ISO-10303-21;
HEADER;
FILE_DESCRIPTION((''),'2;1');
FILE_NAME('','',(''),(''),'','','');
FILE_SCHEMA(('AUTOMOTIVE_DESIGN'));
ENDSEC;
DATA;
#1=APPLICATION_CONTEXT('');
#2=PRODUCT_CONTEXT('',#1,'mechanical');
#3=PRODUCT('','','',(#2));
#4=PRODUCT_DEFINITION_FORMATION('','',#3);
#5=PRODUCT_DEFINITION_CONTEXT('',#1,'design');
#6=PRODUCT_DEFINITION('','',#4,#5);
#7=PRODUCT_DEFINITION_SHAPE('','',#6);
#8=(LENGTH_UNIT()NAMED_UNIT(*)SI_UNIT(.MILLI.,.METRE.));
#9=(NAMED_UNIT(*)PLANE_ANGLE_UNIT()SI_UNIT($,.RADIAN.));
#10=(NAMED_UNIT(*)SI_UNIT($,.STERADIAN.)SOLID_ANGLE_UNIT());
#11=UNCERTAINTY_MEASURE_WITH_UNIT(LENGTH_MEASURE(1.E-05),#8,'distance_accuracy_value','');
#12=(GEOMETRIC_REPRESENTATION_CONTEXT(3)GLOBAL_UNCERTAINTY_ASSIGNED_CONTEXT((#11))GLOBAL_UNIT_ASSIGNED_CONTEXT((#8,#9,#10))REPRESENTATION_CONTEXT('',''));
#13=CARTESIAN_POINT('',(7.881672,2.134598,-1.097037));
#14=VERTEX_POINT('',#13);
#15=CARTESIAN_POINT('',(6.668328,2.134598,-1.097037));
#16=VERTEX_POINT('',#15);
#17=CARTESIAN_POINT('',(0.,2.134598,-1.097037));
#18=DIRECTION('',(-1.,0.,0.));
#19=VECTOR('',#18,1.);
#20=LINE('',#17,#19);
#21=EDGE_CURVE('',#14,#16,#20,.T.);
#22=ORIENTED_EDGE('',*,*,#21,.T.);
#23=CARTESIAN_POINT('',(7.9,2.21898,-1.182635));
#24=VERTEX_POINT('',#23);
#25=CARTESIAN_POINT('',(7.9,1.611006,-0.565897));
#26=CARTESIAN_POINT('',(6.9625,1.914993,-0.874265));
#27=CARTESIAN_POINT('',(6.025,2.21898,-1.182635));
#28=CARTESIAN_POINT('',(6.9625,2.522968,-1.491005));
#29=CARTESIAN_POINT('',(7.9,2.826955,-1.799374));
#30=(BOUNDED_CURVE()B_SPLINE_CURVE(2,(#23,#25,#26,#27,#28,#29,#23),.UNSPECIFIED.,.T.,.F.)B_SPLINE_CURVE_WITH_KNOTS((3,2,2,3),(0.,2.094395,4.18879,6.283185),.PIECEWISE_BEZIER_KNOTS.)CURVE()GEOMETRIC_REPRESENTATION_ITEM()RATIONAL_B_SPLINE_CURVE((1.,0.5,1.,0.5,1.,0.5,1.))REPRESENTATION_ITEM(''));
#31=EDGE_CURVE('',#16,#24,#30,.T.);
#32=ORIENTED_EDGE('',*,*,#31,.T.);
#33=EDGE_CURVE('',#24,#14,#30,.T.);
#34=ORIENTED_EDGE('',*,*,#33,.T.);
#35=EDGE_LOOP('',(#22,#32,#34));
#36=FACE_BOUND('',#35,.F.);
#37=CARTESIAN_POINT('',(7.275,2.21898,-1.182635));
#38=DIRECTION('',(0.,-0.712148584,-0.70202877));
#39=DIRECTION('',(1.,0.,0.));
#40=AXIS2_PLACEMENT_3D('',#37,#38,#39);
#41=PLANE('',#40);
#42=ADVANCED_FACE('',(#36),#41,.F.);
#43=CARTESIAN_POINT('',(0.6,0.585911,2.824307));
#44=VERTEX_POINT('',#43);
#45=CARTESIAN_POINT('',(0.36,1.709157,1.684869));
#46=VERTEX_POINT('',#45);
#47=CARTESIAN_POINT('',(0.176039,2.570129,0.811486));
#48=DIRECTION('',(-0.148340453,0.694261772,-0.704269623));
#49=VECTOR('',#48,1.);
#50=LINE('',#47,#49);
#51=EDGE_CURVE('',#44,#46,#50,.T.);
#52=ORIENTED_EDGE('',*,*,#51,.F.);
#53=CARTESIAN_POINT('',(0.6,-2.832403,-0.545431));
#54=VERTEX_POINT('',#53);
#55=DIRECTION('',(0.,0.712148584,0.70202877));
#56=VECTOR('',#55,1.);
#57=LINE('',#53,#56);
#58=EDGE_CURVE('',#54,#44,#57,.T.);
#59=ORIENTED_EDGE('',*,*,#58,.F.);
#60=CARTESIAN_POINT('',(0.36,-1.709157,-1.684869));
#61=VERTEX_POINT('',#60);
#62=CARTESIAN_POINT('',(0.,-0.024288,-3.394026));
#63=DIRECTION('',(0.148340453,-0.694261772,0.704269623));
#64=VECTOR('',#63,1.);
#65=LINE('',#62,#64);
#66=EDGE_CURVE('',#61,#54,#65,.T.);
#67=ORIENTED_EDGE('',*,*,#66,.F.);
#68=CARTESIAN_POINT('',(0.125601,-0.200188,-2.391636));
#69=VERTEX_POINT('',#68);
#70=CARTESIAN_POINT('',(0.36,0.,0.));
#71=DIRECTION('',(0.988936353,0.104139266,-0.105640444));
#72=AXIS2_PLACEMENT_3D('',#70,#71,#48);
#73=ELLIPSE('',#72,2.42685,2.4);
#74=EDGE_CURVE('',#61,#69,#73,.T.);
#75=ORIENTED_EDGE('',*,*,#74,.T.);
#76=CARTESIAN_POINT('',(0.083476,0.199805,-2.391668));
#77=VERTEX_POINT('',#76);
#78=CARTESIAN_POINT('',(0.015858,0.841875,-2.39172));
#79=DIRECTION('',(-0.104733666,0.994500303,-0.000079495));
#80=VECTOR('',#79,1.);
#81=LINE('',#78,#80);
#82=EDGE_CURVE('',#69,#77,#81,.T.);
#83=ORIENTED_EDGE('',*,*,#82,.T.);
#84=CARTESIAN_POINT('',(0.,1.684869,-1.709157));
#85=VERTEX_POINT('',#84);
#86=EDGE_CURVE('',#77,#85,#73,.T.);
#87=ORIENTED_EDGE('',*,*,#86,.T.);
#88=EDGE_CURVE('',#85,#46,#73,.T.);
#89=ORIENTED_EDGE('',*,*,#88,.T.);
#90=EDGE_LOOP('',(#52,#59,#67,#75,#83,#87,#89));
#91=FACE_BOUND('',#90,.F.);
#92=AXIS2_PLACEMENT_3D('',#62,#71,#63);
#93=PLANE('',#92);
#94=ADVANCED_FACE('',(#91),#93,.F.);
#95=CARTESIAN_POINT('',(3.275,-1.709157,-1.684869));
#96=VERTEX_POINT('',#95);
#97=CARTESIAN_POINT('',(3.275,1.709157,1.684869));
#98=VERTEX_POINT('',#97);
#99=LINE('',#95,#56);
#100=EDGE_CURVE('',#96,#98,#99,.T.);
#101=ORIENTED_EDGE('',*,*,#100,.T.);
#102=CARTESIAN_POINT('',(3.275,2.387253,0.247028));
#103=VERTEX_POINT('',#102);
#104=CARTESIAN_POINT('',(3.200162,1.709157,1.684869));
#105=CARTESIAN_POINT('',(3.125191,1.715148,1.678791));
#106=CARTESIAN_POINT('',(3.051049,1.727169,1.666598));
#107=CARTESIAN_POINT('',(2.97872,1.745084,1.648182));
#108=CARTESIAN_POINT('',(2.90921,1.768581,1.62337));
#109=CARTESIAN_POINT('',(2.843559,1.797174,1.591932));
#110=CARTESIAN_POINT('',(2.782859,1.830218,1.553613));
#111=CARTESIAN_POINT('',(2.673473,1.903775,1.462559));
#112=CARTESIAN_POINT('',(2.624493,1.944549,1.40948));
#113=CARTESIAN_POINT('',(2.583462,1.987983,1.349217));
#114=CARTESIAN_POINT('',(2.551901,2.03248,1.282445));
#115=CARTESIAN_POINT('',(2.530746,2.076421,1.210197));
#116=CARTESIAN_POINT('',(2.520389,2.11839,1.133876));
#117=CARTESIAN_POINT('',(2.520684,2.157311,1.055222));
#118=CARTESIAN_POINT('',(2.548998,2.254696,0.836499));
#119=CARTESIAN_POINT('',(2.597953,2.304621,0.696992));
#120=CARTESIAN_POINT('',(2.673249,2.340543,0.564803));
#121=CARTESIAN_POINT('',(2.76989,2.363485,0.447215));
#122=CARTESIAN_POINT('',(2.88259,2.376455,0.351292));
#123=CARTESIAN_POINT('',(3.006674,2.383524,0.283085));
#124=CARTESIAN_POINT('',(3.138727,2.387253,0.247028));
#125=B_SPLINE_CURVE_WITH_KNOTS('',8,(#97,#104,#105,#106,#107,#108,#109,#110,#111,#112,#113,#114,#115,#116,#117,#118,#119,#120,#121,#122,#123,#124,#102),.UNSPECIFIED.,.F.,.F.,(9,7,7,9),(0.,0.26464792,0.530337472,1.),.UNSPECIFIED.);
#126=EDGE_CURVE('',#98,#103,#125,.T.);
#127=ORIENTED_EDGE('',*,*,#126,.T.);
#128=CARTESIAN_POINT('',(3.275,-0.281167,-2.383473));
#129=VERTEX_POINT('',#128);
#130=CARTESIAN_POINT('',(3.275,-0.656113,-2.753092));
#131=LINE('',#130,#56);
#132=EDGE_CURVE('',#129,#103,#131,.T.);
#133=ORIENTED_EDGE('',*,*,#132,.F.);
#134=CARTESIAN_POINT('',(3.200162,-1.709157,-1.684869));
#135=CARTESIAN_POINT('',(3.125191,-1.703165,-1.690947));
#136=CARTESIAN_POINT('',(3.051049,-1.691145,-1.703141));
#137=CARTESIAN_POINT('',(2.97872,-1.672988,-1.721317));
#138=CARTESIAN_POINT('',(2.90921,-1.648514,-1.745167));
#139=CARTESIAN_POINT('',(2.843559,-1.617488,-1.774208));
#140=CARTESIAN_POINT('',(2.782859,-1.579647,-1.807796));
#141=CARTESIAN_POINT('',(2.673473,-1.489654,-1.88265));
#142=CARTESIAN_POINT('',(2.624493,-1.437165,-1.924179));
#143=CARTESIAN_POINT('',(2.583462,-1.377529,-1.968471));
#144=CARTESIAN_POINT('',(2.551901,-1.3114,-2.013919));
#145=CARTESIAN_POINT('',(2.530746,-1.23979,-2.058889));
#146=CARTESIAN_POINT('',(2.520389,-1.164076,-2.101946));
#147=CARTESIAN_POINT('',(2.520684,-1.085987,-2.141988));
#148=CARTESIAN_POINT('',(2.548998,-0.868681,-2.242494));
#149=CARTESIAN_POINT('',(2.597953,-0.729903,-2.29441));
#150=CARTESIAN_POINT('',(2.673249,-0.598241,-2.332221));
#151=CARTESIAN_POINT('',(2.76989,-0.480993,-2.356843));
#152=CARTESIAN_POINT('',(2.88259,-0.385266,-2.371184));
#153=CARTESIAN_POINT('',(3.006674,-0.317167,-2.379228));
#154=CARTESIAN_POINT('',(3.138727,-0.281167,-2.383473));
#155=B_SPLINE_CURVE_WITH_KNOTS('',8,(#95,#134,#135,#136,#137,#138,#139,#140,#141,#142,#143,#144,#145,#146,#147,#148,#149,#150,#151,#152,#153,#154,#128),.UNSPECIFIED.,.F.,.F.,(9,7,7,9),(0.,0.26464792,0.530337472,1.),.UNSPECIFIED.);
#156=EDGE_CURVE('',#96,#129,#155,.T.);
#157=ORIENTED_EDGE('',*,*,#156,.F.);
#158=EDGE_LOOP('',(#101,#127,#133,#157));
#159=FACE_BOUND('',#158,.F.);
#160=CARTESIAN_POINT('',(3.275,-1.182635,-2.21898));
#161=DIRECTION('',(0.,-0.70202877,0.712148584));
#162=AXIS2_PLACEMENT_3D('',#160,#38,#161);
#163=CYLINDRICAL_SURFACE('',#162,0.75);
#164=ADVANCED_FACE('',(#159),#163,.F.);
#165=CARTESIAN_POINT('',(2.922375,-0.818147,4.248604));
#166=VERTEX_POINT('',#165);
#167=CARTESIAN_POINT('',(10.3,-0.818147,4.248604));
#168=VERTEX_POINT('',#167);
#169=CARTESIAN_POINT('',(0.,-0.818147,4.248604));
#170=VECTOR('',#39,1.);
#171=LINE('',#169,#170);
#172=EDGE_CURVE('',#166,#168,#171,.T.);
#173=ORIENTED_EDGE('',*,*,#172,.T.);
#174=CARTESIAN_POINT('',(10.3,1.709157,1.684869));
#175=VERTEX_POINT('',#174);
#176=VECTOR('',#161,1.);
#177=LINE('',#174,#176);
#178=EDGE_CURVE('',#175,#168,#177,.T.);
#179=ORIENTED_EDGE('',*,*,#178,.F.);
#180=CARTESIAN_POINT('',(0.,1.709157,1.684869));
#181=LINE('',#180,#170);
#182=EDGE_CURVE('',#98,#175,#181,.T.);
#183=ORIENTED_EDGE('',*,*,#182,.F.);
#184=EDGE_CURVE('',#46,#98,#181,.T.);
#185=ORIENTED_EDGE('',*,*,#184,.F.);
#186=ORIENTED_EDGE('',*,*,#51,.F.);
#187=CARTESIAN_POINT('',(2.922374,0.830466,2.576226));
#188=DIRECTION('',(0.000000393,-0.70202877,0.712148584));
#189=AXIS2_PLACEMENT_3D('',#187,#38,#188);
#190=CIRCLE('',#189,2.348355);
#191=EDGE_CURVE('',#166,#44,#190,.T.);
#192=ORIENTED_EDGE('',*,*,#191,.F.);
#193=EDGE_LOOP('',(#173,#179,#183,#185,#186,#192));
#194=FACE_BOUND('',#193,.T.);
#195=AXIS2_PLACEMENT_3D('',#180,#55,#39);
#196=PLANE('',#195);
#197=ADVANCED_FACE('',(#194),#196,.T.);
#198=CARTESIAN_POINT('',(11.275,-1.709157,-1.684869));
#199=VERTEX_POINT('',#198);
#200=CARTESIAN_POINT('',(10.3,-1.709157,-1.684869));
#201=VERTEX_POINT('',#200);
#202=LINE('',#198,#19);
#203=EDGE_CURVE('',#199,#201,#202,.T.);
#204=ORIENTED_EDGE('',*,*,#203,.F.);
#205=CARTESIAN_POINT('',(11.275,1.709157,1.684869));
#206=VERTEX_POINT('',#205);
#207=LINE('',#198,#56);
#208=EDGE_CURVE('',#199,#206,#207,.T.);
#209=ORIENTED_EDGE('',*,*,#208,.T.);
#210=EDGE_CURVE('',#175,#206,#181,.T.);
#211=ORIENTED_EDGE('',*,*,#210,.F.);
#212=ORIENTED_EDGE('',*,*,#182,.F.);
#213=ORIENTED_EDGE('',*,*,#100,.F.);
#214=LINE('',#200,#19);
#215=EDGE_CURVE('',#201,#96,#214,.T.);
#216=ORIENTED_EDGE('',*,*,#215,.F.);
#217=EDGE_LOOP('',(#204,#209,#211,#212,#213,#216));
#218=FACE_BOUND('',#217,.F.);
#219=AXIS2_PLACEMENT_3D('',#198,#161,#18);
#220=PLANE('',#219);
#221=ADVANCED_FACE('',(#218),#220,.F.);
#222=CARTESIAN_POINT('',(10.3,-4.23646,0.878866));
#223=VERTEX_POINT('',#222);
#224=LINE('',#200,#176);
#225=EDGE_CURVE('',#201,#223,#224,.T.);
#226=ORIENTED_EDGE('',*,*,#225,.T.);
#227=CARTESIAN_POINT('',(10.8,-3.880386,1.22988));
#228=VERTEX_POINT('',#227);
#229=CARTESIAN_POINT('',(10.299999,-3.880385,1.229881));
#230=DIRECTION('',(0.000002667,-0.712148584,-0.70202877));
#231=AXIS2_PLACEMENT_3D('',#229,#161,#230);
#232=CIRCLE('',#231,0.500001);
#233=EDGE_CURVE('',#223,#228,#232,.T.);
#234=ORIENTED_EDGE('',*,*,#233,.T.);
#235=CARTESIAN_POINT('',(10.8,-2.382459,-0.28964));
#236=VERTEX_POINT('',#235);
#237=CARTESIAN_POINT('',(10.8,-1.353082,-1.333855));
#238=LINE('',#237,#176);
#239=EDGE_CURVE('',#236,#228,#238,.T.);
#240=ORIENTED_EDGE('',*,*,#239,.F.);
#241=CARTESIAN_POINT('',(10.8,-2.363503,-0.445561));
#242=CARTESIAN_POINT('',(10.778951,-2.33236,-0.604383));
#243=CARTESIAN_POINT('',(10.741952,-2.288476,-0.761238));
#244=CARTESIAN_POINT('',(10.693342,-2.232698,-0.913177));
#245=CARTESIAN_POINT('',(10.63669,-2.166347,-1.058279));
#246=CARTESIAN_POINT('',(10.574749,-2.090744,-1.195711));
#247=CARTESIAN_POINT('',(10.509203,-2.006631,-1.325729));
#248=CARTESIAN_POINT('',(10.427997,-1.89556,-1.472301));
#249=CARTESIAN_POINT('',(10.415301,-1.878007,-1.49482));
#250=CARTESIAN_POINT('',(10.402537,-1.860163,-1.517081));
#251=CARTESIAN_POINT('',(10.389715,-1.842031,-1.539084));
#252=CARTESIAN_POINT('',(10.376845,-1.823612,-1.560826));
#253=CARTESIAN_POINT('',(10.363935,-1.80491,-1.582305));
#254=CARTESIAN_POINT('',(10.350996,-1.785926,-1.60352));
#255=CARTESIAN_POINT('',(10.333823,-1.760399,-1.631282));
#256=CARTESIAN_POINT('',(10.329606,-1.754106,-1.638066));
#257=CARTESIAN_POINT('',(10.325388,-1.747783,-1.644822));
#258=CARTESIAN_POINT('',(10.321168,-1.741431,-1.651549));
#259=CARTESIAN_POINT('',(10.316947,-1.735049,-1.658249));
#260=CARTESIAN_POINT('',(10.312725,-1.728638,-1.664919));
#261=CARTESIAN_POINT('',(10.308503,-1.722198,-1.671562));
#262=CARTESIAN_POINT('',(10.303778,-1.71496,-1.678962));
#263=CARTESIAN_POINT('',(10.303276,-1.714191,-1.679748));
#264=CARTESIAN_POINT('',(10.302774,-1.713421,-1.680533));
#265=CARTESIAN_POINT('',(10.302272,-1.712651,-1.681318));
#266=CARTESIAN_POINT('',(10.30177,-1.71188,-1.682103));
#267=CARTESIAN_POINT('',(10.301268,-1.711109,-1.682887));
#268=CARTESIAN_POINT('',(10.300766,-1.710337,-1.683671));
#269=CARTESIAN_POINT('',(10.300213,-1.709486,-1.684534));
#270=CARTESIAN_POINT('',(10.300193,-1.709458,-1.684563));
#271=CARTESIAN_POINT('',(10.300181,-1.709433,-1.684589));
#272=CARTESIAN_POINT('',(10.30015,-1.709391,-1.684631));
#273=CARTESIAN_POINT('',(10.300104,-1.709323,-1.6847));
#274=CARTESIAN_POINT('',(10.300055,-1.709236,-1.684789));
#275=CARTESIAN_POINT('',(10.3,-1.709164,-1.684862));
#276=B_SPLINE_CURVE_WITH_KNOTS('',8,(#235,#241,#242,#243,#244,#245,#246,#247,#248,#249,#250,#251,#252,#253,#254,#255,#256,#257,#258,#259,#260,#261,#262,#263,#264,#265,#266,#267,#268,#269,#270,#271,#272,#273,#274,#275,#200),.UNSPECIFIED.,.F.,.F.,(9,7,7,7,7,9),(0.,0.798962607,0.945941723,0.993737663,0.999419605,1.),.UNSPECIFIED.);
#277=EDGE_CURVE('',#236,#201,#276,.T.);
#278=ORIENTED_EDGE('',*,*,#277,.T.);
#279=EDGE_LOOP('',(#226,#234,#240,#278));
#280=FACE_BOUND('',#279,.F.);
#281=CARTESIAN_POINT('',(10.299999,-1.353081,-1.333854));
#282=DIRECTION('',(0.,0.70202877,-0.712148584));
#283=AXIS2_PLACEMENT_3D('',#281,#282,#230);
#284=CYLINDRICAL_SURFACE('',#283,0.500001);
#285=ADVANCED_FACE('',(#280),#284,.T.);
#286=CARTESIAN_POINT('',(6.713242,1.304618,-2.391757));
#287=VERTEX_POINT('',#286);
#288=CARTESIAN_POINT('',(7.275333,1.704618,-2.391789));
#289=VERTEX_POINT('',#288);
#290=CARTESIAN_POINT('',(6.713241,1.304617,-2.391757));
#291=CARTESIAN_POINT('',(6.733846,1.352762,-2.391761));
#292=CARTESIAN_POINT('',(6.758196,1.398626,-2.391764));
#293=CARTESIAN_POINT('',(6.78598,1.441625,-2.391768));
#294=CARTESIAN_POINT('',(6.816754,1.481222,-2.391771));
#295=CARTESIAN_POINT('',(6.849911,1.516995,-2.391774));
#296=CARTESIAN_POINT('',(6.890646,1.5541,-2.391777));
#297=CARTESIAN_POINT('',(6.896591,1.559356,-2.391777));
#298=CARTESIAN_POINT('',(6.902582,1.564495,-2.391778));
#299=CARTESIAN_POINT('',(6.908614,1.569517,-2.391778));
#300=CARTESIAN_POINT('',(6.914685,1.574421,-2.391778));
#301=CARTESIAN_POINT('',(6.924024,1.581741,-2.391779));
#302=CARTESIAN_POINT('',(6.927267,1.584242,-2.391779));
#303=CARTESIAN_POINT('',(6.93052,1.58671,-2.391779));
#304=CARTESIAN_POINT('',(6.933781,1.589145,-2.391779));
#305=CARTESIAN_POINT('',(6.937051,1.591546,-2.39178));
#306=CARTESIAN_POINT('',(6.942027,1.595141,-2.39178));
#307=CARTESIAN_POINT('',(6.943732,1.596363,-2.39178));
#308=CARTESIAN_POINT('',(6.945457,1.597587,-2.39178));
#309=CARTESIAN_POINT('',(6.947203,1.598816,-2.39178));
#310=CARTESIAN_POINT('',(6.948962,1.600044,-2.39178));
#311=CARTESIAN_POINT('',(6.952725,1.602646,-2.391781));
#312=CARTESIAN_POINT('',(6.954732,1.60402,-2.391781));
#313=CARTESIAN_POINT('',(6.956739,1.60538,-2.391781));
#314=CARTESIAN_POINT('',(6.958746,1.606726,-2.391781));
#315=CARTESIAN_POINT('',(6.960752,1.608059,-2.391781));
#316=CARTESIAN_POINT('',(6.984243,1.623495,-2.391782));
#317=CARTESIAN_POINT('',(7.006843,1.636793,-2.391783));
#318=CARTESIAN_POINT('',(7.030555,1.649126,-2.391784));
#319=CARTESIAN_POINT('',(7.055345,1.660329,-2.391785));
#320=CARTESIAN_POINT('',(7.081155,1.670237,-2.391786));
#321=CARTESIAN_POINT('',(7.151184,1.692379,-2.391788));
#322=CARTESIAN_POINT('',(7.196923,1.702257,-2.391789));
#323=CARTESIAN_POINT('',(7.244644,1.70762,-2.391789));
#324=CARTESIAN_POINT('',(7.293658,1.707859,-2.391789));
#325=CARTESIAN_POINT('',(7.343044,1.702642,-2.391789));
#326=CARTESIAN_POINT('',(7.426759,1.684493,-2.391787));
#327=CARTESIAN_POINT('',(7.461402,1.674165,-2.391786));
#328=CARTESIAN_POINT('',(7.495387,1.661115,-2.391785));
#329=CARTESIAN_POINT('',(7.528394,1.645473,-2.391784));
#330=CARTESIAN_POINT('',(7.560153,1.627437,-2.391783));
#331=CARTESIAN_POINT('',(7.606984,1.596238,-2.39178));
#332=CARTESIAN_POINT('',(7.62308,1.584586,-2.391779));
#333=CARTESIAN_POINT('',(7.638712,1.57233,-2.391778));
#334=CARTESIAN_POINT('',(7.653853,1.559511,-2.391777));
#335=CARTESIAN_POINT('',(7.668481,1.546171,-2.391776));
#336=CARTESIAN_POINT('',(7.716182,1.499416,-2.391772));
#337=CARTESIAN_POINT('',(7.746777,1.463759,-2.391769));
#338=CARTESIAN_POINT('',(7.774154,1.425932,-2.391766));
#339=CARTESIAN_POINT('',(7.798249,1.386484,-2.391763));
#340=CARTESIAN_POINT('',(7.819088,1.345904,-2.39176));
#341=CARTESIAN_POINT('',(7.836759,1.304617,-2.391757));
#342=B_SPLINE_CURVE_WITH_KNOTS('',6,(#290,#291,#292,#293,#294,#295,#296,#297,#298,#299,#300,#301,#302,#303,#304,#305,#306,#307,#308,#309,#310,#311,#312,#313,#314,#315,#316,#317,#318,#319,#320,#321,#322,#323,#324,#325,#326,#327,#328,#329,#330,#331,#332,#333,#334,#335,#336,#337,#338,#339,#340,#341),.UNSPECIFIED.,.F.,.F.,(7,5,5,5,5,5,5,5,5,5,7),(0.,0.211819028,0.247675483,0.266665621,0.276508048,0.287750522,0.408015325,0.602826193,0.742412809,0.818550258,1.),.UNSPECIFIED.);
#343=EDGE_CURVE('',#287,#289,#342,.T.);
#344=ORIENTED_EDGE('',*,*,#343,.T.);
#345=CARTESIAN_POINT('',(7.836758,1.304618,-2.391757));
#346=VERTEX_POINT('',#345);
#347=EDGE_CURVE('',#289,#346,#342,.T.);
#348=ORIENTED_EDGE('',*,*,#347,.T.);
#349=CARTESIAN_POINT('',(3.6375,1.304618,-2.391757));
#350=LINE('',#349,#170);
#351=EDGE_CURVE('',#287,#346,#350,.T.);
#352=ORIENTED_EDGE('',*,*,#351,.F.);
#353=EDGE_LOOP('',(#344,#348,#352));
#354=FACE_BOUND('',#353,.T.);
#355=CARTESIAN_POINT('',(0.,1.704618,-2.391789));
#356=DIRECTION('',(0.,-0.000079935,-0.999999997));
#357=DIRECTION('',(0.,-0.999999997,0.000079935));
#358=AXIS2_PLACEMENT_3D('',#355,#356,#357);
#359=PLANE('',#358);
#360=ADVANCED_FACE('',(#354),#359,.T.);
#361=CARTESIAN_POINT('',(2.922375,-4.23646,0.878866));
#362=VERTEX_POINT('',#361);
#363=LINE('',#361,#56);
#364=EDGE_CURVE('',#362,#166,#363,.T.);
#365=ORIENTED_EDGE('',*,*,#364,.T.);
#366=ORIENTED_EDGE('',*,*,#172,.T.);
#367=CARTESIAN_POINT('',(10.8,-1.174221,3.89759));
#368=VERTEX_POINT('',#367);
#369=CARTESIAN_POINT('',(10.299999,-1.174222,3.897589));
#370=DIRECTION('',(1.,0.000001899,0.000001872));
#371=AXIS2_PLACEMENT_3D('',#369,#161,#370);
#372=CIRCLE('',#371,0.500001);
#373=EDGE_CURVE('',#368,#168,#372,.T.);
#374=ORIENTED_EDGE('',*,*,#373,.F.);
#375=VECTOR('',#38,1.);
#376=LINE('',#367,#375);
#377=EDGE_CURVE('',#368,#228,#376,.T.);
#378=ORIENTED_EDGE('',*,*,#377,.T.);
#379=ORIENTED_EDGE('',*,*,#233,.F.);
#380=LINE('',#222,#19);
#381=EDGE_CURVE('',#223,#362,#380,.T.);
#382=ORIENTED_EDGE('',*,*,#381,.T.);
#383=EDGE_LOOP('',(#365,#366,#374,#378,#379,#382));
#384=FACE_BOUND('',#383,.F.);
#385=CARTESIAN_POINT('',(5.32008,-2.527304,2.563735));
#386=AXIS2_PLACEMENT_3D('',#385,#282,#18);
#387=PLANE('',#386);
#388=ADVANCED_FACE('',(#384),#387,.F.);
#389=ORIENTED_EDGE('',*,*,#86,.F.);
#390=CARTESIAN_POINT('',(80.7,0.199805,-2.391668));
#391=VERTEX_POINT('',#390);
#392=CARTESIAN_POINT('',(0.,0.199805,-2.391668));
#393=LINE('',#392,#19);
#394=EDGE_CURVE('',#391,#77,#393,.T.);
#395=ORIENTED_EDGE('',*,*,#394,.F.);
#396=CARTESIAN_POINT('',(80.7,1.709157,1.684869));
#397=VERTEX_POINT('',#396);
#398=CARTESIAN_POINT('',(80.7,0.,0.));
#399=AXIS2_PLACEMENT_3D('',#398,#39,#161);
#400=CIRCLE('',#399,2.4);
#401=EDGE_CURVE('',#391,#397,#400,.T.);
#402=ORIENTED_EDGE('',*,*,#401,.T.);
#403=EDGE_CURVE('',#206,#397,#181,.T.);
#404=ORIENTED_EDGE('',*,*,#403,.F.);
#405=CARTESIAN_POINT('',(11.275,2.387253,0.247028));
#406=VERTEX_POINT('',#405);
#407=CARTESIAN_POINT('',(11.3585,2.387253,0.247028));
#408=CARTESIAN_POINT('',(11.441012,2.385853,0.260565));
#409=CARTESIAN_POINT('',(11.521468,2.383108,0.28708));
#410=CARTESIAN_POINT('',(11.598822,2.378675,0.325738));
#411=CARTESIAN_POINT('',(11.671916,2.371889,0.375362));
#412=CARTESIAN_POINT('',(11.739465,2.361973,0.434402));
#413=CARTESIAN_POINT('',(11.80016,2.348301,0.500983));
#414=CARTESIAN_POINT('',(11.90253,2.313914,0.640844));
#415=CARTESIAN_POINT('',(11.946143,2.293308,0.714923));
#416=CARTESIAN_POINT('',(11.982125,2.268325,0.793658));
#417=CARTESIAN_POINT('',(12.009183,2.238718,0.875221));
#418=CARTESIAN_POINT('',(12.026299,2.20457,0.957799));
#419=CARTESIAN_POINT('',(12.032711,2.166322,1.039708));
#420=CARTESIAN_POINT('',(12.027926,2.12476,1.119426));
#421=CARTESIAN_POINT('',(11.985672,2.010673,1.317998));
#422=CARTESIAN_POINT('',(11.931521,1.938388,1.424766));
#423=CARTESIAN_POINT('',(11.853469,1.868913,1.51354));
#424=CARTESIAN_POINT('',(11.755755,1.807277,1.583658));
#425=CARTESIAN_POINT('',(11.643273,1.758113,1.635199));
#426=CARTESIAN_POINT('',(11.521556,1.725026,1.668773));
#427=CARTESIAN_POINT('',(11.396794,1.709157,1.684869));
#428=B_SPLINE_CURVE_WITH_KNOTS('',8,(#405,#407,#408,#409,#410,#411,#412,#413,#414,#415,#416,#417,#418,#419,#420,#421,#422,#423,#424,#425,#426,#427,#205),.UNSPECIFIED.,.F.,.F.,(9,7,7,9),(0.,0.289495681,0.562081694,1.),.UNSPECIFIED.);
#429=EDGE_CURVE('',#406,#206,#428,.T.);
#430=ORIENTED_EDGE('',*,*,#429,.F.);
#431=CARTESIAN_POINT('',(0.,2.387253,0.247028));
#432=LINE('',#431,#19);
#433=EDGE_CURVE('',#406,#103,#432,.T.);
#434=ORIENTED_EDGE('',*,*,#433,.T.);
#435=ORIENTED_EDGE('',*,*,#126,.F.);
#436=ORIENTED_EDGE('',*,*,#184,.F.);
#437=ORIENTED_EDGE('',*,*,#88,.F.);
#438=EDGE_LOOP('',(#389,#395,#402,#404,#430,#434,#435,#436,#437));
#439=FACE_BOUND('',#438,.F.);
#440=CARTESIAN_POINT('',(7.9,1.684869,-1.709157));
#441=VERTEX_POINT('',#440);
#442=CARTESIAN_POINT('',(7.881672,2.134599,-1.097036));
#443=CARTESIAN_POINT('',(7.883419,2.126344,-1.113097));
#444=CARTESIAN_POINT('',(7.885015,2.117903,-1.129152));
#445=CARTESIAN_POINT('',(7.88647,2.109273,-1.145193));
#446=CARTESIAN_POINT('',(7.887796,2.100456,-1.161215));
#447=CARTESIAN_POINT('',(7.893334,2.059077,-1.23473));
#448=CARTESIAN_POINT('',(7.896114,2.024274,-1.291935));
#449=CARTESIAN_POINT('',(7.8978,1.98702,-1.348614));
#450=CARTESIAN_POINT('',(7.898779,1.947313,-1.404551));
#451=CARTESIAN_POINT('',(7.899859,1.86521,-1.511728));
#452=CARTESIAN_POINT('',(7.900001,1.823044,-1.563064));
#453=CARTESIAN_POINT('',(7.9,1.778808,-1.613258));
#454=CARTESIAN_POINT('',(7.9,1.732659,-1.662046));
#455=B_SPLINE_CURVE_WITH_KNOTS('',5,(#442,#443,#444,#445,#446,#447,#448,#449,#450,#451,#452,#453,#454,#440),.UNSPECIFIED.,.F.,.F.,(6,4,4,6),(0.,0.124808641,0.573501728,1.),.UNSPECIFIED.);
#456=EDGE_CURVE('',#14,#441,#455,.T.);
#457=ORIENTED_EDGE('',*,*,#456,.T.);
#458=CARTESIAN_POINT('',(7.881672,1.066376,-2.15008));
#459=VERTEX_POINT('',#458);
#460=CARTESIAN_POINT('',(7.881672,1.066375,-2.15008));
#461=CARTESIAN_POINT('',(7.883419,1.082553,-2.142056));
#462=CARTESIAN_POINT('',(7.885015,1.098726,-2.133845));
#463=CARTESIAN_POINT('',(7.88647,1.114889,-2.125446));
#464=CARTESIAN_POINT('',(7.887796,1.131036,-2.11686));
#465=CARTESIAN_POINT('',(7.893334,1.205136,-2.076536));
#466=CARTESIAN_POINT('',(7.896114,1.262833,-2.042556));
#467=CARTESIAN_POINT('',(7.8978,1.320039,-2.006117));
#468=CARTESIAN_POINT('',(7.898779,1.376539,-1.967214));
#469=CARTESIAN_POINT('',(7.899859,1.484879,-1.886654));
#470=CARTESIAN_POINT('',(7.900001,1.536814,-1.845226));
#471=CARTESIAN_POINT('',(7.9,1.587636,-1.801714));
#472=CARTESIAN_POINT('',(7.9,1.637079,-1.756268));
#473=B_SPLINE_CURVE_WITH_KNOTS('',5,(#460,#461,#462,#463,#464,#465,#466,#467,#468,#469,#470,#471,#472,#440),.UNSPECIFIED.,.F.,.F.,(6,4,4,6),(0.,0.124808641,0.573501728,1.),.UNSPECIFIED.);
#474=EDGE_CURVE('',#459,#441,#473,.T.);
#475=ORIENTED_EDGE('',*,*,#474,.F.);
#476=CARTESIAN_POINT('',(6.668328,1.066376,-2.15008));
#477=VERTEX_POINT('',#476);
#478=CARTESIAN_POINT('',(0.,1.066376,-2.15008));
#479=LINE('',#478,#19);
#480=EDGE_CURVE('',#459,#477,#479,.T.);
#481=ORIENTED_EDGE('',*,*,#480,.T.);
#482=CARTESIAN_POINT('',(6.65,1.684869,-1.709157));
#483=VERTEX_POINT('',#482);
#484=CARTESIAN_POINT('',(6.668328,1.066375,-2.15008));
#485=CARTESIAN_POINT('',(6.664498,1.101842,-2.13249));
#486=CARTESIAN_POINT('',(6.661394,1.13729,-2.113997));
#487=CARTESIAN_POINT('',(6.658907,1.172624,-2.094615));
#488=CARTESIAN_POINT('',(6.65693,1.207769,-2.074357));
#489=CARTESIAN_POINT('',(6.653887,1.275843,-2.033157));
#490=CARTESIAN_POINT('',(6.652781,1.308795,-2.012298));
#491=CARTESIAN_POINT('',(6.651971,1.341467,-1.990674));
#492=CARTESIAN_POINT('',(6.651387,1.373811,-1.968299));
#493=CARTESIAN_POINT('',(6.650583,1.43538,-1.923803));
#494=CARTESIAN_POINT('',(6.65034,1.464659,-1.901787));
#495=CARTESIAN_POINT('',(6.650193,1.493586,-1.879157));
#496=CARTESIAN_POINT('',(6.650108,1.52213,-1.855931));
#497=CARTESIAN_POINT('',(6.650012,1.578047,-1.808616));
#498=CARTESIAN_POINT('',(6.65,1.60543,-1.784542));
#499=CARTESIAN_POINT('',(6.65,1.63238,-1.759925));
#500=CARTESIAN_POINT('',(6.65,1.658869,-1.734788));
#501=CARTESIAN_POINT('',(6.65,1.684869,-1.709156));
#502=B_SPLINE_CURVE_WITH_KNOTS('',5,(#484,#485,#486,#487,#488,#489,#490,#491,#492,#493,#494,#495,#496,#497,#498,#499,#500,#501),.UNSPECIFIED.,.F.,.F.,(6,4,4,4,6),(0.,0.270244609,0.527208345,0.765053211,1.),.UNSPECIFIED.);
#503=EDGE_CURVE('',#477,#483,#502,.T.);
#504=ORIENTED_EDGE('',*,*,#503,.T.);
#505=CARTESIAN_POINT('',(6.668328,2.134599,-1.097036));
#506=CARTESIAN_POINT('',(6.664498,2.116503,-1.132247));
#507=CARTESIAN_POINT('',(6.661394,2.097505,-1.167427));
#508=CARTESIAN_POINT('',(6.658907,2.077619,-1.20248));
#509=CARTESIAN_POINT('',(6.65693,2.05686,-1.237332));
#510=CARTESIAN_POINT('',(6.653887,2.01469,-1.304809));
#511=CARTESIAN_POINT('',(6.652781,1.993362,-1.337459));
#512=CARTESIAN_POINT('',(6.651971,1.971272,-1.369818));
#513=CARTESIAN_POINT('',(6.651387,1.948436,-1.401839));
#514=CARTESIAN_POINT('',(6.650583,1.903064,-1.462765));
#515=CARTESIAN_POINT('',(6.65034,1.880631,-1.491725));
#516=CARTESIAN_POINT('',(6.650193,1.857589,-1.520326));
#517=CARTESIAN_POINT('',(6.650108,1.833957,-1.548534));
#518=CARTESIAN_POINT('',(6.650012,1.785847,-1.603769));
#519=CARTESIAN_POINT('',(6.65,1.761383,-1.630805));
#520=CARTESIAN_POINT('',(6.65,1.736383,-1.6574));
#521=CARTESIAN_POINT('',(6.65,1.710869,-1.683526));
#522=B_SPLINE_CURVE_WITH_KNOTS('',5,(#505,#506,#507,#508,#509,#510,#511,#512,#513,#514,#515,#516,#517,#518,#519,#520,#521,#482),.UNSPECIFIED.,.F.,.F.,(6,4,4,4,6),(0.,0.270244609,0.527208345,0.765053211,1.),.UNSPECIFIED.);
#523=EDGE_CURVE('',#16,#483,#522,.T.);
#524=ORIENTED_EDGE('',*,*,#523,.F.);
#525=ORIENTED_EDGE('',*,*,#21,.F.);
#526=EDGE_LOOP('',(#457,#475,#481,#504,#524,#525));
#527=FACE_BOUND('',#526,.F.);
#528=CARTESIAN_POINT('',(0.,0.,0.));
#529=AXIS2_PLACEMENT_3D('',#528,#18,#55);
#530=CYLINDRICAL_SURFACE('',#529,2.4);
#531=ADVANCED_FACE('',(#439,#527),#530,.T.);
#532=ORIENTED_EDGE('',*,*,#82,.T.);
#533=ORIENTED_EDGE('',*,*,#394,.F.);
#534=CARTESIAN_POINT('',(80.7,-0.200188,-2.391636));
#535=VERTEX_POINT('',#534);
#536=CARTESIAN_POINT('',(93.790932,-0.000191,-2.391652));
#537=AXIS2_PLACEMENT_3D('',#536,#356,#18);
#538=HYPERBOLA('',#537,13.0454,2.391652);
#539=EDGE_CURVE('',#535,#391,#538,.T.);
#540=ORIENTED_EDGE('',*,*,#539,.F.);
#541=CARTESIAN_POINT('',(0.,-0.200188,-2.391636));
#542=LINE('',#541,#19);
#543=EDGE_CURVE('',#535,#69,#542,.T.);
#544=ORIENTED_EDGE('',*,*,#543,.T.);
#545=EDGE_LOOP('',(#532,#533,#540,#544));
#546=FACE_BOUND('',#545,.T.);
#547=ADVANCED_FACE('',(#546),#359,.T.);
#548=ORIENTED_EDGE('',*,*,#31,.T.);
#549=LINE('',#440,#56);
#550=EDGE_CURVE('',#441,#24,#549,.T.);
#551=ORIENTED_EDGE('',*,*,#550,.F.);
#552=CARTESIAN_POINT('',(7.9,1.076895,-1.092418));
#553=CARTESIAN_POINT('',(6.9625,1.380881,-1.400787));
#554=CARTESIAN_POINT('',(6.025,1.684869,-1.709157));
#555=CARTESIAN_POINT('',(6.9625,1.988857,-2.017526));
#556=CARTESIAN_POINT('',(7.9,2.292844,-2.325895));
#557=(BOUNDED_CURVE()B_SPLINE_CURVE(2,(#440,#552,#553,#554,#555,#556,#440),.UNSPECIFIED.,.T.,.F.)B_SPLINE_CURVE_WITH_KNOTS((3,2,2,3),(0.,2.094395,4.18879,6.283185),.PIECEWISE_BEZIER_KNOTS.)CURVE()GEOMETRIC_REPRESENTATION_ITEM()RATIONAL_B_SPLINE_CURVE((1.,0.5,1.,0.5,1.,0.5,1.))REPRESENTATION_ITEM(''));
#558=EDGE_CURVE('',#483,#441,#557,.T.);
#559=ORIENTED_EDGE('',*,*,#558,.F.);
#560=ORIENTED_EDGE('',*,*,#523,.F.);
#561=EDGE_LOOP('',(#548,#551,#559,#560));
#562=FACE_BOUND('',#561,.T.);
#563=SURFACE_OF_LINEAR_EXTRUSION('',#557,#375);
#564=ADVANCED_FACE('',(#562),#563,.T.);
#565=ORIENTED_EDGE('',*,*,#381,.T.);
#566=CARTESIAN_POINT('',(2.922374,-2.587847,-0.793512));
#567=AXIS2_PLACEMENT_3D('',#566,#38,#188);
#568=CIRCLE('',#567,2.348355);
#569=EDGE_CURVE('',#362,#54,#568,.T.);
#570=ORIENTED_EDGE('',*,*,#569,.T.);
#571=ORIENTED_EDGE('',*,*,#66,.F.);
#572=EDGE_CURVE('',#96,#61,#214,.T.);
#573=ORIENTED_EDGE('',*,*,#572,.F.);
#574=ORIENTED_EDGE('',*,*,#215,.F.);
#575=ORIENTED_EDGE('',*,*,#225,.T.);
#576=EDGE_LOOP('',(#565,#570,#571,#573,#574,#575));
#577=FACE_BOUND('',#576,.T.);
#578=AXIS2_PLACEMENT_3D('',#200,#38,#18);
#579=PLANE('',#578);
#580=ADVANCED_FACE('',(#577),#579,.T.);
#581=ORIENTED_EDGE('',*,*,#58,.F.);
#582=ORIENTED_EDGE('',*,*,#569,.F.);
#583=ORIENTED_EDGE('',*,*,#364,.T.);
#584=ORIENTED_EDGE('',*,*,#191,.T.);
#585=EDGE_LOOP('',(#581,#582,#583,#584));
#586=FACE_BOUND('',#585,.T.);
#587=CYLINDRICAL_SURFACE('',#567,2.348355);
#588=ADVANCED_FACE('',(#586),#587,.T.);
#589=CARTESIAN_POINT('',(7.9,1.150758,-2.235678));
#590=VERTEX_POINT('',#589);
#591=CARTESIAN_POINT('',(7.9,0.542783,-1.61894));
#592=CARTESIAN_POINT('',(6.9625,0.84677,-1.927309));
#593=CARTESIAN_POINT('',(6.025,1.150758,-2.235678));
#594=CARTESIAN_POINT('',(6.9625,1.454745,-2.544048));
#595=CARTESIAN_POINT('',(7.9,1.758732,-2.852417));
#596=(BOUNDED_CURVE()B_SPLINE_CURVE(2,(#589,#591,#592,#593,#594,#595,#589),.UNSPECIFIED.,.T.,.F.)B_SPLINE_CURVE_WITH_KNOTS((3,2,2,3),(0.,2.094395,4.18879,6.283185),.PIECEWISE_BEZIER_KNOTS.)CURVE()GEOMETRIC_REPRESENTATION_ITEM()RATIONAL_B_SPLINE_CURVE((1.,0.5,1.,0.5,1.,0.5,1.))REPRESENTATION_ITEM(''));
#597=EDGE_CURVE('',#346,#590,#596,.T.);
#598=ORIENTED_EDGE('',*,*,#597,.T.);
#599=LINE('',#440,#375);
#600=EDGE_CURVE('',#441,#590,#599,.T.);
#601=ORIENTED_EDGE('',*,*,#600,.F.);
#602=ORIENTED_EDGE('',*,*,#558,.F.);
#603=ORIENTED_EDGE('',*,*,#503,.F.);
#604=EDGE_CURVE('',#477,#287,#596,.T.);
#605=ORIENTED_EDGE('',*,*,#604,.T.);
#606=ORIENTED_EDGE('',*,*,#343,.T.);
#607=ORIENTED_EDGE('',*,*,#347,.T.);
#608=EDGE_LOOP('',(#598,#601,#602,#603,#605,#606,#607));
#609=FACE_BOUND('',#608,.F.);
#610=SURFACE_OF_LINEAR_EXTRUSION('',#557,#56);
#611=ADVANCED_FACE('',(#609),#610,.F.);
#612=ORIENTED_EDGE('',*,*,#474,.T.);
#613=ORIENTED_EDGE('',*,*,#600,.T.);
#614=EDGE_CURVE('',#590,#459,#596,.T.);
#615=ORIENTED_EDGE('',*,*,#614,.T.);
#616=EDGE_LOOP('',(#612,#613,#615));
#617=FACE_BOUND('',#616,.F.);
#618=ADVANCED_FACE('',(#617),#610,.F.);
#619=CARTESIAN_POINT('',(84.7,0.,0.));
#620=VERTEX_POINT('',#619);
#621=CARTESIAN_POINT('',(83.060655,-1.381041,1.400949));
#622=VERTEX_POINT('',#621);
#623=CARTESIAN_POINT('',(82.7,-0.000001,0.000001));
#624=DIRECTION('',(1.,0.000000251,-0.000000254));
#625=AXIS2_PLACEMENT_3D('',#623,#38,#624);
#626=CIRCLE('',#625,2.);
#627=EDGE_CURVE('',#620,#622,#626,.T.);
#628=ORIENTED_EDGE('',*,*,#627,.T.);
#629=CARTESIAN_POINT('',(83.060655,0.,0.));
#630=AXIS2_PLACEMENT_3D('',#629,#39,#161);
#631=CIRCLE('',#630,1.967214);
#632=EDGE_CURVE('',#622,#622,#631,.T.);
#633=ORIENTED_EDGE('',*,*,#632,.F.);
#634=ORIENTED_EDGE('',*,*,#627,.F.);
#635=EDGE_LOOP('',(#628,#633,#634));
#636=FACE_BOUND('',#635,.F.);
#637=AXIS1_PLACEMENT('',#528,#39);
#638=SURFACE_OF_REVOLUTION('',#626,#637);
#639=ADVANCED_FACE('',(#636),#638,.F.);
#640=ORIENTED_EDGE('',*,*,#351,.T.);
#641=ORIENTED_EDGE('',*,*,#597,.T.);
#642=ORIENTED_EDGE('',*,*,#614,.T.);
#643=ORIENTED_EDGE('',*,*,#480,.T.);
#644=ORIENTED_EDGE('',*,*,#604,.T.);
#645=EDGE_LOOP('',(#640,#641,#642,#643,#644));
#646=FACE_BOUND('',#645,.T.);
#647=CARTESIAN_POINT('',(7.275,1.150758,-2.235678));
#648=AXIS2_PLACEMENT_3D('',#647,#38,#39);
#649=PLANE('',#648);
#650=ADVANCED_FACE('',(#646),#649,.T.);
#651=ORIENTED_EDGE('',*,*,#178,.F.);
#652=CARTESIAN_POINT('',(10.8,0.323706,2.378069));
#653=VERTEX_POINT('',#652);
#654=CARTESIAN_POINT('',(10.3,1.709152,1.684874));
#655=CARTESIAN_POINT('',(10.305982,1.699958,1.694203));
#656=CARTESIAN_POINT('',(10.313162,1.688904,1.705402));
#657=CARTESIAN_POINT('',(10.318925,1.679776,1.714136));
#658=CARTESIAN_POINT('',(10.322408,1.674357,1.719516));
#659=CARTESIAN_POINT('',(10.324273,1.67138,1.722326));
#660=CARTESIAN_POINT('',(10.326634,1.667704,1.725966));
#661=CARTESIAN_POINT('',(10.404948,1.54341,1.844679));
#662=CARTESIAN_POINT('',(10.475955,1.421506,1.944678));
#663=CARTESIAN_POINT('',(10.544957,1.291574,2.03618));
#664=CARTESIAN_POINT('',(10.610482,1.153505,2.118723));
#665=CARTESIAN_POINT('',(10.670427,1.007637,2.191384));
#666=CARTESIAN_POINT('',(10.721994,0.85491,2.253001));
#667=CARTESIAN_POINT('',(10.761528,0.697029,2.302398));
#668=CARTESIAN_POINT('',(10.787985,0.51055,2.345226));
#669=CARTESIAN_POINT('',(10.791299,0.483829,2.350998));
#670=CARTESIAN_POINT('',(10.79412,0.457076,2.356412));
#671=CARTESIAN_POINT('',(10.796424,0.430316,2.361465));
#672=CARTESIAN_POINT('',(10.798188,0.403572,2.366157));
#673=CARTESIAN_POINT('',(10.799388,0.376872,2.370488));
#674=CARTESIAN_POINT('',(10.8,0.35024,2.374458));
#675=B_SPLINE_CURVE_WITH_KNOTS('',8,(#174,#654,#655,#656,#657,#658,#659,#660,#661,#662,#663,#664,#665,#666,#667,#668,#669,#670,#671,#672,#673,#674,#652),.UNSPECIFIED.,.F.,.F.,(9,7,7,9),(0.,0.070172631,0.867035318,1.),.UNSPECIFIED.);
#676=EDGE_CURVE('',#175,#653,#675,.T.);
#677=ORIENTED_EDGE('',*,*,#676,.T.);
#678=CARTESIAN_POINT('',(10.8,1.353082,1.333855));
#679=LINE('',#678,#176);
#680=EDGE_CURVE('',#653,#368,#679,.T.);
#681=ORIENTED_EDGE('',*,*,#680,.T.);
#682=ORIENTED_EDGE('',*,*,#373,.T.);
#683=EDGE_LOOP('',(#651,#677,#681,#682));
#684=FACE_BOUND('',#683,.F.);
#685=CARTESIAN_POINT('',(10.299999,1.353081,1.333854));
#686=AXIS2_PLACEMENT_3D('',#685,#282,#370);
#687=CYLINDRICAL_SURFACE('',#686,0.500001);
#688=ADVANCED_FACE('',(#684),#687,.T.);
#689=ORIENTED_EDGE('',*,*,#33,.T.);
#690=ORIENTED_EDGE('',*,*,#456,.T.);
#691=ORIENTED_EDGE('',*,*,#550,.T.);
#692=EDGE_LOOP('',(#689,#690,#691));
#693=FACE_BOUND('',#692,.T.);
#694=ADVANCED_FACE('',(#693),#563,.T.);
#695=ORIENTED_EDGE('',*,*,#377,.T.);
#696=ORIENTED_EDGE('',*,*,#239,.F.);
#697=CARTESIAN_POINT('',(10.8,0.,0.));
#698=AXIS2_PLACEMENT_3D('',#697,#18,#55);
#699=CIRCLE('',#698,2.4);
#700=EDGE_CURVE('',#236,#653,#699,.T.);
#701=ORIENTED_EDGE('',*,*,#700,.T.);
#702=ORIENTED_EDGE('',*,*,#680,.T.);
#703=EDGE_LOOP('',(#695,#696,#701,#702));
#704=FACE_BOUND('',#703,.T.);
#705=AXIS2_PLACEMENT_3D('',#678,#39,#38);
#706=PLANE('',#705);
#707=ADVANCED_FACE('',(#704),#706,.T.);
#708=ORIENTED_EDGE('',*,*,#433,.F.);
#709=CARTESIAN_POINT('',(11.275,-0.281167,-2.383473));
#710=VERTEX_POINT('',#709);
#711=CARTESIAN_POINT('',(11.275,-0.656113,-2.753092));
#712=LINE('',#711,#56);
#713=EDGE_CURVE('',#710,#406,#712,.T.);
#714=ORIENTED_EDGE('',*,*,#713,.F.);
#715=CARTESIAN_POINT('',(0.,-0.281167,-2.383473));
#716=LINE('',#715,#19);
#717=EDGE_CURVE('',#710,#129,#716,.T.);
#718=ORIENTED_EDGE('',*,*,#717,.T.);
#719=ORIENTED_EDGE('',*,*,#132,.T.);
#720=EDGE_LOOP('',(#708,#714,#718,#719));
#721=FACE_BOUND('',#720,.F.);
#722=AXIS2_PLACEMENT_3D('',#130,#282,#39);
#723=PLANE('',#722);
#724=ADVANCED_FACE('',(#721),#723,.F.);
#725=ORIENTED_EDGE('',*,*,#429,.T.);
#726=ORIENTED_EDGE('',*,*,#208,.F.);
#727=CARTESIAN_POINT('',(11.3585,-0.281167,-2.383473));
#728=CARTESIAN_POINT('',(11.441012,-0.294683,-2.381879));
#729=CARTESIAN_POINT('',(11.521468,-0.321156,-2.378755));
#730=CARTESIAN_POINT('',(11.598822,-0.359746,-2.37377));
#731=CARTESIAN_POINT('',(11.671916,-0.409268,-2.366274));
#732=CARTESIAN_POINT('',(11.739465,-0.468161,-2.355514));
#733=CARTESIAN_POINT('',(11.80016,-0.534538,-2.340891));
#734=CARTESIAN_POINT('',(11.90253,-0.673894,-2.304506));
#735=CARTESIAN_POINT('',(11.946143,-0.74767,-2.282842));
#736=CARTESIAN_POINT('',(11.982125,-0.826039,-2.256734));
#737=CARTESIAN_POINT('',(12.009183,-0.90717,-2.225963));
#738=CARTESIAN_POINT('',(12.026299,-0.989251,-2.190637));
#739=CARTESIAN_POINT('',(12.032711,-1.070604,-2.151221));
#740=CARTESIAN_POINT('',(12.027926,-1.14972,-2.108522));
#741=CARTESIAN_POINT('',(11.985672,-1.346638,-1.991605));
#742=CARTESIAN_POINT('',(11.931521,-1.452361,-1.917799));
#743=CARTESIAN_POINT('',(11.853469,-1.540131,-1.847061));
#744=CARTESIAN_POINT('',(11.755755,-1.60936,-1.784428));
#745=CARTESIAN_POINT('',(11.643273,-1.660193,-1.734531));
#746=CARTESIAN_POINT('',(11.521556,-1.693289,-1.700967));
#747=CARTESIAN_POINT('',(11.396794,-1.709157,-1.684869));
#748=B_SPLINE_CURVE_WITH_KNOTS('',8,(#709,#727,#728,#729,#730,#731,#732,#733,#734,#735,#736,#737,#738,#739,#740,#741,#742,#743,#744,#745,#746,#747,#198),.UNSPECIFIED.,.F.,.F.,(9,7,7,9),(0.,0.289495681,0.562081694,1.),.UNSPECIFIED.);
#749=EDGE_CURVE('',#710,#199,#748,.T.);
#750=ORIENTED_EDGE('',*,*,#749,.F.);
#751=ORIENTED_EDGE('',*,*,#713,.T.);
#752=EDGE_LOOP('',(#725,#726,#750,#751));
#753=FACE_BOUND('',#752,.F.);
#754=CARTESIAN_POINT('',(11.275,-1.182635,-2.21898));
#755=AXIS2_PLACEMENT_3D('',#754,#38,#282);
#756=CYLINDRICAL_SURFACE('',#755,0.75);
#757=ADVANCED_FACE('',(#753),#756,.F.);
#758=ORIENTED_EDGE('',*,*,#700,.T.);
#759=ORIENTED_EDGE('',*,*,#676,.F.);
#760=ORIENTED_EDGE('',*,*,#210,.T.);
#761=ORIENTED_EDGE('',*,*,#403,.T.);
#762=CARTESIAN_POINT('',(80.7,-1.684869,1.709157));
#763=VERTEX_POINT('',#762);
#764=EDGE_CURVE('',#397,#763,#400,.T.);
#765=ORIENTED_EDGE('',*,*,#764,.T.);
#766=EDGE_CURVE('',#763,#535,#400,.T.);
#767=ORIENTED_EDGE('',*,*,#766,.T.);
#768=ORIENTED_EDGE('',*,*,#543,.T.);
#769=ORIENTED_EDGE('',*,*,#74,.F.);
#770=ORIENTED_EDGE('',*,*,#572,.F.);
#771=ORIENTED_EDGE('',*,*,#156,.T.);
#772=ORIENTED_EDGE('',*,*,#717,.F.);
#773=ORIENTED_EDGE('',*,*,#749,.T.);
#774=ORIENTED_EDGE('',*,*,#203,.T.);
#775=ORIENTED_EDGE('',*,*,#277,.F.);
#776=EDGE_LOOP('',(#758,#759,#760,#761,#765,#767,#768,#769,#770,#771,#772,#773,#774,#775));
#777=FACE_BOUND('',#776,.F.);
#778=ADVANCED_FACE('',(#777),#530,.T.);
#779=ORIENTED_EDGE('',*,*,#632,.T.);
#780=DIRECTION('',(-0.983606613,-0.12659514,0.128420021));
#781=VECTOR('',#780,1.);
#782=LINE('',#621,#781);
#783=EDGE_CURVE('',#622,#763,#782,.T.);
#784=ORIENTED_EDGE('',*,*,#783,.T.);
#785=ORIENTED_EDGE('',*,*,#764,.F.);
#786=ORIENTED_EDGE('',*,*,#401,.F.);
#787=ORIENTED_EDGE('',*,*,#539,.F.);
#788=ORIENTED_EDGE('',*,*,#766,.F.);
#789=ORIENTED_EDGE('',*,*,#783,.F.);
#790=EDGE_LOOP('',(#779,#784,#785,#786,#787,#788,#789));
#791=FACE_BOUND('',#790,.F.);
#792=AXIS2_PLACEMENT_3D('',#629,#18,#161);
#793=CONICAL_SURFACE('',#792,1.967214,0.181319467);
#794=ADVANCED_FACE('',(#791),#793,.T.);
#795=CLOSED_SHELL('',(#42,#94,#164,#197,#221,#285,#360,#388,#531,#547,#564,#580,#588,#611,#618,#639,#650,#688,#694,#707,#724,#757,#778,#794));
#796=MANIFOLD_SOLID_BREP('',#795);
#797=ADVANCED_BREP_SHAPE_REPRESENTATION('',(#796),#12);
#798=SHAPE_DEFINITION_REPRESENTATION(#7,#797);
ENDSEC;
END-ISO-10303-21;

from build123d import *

# Parameters (mm, degrees)
SKETCH_R             = 2.4
PAD_DEPTH            = 84.7
PAD001_DEPTH         = 3.6
POCKET_DEPTH         = 5
PAD002_DEPTH         = 0.75
PAD002_DEPTH_BACK    = 0.75
POCKET001_DEPTH      = 10
POCKET002_DEPTH      = 100
POCKET002_DEPTH_BACK = -100
BODY_PLACEMENT_ANGLE = 44.59


with BuildPart() as part:
    # Sketch → Pad (new body)
    with BuildSketch(Plane.YZ):
        Circle(SKETCH_R)
    extrude(amount=PAD_DEPTH)

    # Sketch001 → Pad001 (join)
    with BuildSketch(Plane.XY):
        with BuildLine():
            Line((0, 2.4), (10.3, 2.4))
            ThreePointArc((10.8, 1.9), (10.653553, 2.253553), (10.3, 2.4))
            Line((10.8, 1.9), (10.8, -1.9))
            ThreePointArc((10.3, -2.4), (10.653553, -2.253553), (10.8, -1.9))
            Line((10.3, -2.4), (0, -2.4))
            Line((0, -2.4), (0, 2.4))
        make_face()
    extrude(amount=PAD001_DEPTH)

    # Sketch002 (on Face7 of Pad001) → Pocket (cut)
    with BuildSketch(Plane(origin=(0, -2.4, 0), x_dir=(0, 0, -1), z_dir=(0, -1, 0))):
        with BuildLine():
            Line((2.4, 0), (-1.6, 0.6))
            ThreePointArc((-3.6, 2.922375), (-3.031088, 1.38994), (-1.6, 0.6))
            Line((-3.6, 2.922375), (-4.6, 2.922375))
            Line((-4.6, 2.922375), (-4.6, -1))
            Line((-4.6, -1), (2.4, -1))
            Line((2.4, -1), (2.4, 0))
        make_face()
    extrude(amount=-POCKET_DEPTH, mode=Mode.SUBTRACT)

    # Sketch003 → Pad002 (join, two sides)
    with BuildSketch(Plane.XZ) as pad002_sk:
        with BuildLine():
            add(Edge.make_bspline(
                [(7.9, -2.4), (7.9, -1.533975), (6.9625, -1.966987), (6.025, -2.4), (6.9625, -2.833013), (7.9, -3.266025), (7.9, -2.4)],
                knots=[0, 0, 0, 2.094395, 2.094395, 4.18879, 4.18879, 6.283185, 6.283185, 6.283185], degree=2, weights=[1, 0.5, 1, 0.5, 1, 0.5, 1]))
        make_face()
    extrude(amount=PAD002_DEPTH)
    extrude(pad002_sk.sketch, amount=-PAD002_DEPTH_BACK)

    # Sketch004 (on Face6 of Pad002) → Pocket001 (cut)
    with BuildSketch(Plane(origin=(0, -2.4, 0), x_dir=(0, 0, -1), z_dir=(0, -1, 0))):
        with BuildLine():
            ThreePointArc((0, 3.275), (0.75, 2.525), (1.5, 3.275))
            Line((1.5, 3.275), (1.5, 11.275))
            ThreePointArc((1.5, 11.275), (0.75, 12.025), (0, 11.275))
            Line((0, 11.275), (0, 3.275))
        make_face()
    extrude(amount=-POCKET001_DEPTH, mode=Mode.SUBTRACT)

    # Sketch005 → Groove (revolve, cut)
    with BuildSketch(Plane.XZ):
        with BuildLine():
            ThreePointArc((84.7, 0), (84.236443, 1.280369), (83.060655, 1.967214))
            Line((83.060655, 1.967214), (80.7, 2.4))
            Line((80.7, 2.4), (84.7, 2.4))
            Line((84.7, 2.4), (85.7, 2.4))
            Line((85.7, 2.4), (85.7, 0))
            Line((85.7, 0), (84.7, 0))
        make_face()
    revolve(axis=Axis((0, 0, 0), (1, 0, 0)), mode=Mode.SUBTRACT)

    # Sketch006 → Pocket002 (cut, two sides)
    with BuildSketch(Plane.YZ) as pocket002_sk:
        Polygon((-1.821564, -1.56266), (-1.821564, -2.9), (-0.465163, -2.9), align=None)
    extrude(amount=-POCKET002_DEPTH, mode=Mode.SUBTRACT)
    extrude(pocket002_sk.sketch, amount=-POCKET002_DEPTH_BACK, mode=Mode.SUBTRACT)


with BuildPart() as part_1:
    # Body placement: moved
    add(part.part.rotate(Axis((0, 0, 0), (1, 0, 0)), BODY_PLACEMENT_ANGLE))


solid = part_1.part
